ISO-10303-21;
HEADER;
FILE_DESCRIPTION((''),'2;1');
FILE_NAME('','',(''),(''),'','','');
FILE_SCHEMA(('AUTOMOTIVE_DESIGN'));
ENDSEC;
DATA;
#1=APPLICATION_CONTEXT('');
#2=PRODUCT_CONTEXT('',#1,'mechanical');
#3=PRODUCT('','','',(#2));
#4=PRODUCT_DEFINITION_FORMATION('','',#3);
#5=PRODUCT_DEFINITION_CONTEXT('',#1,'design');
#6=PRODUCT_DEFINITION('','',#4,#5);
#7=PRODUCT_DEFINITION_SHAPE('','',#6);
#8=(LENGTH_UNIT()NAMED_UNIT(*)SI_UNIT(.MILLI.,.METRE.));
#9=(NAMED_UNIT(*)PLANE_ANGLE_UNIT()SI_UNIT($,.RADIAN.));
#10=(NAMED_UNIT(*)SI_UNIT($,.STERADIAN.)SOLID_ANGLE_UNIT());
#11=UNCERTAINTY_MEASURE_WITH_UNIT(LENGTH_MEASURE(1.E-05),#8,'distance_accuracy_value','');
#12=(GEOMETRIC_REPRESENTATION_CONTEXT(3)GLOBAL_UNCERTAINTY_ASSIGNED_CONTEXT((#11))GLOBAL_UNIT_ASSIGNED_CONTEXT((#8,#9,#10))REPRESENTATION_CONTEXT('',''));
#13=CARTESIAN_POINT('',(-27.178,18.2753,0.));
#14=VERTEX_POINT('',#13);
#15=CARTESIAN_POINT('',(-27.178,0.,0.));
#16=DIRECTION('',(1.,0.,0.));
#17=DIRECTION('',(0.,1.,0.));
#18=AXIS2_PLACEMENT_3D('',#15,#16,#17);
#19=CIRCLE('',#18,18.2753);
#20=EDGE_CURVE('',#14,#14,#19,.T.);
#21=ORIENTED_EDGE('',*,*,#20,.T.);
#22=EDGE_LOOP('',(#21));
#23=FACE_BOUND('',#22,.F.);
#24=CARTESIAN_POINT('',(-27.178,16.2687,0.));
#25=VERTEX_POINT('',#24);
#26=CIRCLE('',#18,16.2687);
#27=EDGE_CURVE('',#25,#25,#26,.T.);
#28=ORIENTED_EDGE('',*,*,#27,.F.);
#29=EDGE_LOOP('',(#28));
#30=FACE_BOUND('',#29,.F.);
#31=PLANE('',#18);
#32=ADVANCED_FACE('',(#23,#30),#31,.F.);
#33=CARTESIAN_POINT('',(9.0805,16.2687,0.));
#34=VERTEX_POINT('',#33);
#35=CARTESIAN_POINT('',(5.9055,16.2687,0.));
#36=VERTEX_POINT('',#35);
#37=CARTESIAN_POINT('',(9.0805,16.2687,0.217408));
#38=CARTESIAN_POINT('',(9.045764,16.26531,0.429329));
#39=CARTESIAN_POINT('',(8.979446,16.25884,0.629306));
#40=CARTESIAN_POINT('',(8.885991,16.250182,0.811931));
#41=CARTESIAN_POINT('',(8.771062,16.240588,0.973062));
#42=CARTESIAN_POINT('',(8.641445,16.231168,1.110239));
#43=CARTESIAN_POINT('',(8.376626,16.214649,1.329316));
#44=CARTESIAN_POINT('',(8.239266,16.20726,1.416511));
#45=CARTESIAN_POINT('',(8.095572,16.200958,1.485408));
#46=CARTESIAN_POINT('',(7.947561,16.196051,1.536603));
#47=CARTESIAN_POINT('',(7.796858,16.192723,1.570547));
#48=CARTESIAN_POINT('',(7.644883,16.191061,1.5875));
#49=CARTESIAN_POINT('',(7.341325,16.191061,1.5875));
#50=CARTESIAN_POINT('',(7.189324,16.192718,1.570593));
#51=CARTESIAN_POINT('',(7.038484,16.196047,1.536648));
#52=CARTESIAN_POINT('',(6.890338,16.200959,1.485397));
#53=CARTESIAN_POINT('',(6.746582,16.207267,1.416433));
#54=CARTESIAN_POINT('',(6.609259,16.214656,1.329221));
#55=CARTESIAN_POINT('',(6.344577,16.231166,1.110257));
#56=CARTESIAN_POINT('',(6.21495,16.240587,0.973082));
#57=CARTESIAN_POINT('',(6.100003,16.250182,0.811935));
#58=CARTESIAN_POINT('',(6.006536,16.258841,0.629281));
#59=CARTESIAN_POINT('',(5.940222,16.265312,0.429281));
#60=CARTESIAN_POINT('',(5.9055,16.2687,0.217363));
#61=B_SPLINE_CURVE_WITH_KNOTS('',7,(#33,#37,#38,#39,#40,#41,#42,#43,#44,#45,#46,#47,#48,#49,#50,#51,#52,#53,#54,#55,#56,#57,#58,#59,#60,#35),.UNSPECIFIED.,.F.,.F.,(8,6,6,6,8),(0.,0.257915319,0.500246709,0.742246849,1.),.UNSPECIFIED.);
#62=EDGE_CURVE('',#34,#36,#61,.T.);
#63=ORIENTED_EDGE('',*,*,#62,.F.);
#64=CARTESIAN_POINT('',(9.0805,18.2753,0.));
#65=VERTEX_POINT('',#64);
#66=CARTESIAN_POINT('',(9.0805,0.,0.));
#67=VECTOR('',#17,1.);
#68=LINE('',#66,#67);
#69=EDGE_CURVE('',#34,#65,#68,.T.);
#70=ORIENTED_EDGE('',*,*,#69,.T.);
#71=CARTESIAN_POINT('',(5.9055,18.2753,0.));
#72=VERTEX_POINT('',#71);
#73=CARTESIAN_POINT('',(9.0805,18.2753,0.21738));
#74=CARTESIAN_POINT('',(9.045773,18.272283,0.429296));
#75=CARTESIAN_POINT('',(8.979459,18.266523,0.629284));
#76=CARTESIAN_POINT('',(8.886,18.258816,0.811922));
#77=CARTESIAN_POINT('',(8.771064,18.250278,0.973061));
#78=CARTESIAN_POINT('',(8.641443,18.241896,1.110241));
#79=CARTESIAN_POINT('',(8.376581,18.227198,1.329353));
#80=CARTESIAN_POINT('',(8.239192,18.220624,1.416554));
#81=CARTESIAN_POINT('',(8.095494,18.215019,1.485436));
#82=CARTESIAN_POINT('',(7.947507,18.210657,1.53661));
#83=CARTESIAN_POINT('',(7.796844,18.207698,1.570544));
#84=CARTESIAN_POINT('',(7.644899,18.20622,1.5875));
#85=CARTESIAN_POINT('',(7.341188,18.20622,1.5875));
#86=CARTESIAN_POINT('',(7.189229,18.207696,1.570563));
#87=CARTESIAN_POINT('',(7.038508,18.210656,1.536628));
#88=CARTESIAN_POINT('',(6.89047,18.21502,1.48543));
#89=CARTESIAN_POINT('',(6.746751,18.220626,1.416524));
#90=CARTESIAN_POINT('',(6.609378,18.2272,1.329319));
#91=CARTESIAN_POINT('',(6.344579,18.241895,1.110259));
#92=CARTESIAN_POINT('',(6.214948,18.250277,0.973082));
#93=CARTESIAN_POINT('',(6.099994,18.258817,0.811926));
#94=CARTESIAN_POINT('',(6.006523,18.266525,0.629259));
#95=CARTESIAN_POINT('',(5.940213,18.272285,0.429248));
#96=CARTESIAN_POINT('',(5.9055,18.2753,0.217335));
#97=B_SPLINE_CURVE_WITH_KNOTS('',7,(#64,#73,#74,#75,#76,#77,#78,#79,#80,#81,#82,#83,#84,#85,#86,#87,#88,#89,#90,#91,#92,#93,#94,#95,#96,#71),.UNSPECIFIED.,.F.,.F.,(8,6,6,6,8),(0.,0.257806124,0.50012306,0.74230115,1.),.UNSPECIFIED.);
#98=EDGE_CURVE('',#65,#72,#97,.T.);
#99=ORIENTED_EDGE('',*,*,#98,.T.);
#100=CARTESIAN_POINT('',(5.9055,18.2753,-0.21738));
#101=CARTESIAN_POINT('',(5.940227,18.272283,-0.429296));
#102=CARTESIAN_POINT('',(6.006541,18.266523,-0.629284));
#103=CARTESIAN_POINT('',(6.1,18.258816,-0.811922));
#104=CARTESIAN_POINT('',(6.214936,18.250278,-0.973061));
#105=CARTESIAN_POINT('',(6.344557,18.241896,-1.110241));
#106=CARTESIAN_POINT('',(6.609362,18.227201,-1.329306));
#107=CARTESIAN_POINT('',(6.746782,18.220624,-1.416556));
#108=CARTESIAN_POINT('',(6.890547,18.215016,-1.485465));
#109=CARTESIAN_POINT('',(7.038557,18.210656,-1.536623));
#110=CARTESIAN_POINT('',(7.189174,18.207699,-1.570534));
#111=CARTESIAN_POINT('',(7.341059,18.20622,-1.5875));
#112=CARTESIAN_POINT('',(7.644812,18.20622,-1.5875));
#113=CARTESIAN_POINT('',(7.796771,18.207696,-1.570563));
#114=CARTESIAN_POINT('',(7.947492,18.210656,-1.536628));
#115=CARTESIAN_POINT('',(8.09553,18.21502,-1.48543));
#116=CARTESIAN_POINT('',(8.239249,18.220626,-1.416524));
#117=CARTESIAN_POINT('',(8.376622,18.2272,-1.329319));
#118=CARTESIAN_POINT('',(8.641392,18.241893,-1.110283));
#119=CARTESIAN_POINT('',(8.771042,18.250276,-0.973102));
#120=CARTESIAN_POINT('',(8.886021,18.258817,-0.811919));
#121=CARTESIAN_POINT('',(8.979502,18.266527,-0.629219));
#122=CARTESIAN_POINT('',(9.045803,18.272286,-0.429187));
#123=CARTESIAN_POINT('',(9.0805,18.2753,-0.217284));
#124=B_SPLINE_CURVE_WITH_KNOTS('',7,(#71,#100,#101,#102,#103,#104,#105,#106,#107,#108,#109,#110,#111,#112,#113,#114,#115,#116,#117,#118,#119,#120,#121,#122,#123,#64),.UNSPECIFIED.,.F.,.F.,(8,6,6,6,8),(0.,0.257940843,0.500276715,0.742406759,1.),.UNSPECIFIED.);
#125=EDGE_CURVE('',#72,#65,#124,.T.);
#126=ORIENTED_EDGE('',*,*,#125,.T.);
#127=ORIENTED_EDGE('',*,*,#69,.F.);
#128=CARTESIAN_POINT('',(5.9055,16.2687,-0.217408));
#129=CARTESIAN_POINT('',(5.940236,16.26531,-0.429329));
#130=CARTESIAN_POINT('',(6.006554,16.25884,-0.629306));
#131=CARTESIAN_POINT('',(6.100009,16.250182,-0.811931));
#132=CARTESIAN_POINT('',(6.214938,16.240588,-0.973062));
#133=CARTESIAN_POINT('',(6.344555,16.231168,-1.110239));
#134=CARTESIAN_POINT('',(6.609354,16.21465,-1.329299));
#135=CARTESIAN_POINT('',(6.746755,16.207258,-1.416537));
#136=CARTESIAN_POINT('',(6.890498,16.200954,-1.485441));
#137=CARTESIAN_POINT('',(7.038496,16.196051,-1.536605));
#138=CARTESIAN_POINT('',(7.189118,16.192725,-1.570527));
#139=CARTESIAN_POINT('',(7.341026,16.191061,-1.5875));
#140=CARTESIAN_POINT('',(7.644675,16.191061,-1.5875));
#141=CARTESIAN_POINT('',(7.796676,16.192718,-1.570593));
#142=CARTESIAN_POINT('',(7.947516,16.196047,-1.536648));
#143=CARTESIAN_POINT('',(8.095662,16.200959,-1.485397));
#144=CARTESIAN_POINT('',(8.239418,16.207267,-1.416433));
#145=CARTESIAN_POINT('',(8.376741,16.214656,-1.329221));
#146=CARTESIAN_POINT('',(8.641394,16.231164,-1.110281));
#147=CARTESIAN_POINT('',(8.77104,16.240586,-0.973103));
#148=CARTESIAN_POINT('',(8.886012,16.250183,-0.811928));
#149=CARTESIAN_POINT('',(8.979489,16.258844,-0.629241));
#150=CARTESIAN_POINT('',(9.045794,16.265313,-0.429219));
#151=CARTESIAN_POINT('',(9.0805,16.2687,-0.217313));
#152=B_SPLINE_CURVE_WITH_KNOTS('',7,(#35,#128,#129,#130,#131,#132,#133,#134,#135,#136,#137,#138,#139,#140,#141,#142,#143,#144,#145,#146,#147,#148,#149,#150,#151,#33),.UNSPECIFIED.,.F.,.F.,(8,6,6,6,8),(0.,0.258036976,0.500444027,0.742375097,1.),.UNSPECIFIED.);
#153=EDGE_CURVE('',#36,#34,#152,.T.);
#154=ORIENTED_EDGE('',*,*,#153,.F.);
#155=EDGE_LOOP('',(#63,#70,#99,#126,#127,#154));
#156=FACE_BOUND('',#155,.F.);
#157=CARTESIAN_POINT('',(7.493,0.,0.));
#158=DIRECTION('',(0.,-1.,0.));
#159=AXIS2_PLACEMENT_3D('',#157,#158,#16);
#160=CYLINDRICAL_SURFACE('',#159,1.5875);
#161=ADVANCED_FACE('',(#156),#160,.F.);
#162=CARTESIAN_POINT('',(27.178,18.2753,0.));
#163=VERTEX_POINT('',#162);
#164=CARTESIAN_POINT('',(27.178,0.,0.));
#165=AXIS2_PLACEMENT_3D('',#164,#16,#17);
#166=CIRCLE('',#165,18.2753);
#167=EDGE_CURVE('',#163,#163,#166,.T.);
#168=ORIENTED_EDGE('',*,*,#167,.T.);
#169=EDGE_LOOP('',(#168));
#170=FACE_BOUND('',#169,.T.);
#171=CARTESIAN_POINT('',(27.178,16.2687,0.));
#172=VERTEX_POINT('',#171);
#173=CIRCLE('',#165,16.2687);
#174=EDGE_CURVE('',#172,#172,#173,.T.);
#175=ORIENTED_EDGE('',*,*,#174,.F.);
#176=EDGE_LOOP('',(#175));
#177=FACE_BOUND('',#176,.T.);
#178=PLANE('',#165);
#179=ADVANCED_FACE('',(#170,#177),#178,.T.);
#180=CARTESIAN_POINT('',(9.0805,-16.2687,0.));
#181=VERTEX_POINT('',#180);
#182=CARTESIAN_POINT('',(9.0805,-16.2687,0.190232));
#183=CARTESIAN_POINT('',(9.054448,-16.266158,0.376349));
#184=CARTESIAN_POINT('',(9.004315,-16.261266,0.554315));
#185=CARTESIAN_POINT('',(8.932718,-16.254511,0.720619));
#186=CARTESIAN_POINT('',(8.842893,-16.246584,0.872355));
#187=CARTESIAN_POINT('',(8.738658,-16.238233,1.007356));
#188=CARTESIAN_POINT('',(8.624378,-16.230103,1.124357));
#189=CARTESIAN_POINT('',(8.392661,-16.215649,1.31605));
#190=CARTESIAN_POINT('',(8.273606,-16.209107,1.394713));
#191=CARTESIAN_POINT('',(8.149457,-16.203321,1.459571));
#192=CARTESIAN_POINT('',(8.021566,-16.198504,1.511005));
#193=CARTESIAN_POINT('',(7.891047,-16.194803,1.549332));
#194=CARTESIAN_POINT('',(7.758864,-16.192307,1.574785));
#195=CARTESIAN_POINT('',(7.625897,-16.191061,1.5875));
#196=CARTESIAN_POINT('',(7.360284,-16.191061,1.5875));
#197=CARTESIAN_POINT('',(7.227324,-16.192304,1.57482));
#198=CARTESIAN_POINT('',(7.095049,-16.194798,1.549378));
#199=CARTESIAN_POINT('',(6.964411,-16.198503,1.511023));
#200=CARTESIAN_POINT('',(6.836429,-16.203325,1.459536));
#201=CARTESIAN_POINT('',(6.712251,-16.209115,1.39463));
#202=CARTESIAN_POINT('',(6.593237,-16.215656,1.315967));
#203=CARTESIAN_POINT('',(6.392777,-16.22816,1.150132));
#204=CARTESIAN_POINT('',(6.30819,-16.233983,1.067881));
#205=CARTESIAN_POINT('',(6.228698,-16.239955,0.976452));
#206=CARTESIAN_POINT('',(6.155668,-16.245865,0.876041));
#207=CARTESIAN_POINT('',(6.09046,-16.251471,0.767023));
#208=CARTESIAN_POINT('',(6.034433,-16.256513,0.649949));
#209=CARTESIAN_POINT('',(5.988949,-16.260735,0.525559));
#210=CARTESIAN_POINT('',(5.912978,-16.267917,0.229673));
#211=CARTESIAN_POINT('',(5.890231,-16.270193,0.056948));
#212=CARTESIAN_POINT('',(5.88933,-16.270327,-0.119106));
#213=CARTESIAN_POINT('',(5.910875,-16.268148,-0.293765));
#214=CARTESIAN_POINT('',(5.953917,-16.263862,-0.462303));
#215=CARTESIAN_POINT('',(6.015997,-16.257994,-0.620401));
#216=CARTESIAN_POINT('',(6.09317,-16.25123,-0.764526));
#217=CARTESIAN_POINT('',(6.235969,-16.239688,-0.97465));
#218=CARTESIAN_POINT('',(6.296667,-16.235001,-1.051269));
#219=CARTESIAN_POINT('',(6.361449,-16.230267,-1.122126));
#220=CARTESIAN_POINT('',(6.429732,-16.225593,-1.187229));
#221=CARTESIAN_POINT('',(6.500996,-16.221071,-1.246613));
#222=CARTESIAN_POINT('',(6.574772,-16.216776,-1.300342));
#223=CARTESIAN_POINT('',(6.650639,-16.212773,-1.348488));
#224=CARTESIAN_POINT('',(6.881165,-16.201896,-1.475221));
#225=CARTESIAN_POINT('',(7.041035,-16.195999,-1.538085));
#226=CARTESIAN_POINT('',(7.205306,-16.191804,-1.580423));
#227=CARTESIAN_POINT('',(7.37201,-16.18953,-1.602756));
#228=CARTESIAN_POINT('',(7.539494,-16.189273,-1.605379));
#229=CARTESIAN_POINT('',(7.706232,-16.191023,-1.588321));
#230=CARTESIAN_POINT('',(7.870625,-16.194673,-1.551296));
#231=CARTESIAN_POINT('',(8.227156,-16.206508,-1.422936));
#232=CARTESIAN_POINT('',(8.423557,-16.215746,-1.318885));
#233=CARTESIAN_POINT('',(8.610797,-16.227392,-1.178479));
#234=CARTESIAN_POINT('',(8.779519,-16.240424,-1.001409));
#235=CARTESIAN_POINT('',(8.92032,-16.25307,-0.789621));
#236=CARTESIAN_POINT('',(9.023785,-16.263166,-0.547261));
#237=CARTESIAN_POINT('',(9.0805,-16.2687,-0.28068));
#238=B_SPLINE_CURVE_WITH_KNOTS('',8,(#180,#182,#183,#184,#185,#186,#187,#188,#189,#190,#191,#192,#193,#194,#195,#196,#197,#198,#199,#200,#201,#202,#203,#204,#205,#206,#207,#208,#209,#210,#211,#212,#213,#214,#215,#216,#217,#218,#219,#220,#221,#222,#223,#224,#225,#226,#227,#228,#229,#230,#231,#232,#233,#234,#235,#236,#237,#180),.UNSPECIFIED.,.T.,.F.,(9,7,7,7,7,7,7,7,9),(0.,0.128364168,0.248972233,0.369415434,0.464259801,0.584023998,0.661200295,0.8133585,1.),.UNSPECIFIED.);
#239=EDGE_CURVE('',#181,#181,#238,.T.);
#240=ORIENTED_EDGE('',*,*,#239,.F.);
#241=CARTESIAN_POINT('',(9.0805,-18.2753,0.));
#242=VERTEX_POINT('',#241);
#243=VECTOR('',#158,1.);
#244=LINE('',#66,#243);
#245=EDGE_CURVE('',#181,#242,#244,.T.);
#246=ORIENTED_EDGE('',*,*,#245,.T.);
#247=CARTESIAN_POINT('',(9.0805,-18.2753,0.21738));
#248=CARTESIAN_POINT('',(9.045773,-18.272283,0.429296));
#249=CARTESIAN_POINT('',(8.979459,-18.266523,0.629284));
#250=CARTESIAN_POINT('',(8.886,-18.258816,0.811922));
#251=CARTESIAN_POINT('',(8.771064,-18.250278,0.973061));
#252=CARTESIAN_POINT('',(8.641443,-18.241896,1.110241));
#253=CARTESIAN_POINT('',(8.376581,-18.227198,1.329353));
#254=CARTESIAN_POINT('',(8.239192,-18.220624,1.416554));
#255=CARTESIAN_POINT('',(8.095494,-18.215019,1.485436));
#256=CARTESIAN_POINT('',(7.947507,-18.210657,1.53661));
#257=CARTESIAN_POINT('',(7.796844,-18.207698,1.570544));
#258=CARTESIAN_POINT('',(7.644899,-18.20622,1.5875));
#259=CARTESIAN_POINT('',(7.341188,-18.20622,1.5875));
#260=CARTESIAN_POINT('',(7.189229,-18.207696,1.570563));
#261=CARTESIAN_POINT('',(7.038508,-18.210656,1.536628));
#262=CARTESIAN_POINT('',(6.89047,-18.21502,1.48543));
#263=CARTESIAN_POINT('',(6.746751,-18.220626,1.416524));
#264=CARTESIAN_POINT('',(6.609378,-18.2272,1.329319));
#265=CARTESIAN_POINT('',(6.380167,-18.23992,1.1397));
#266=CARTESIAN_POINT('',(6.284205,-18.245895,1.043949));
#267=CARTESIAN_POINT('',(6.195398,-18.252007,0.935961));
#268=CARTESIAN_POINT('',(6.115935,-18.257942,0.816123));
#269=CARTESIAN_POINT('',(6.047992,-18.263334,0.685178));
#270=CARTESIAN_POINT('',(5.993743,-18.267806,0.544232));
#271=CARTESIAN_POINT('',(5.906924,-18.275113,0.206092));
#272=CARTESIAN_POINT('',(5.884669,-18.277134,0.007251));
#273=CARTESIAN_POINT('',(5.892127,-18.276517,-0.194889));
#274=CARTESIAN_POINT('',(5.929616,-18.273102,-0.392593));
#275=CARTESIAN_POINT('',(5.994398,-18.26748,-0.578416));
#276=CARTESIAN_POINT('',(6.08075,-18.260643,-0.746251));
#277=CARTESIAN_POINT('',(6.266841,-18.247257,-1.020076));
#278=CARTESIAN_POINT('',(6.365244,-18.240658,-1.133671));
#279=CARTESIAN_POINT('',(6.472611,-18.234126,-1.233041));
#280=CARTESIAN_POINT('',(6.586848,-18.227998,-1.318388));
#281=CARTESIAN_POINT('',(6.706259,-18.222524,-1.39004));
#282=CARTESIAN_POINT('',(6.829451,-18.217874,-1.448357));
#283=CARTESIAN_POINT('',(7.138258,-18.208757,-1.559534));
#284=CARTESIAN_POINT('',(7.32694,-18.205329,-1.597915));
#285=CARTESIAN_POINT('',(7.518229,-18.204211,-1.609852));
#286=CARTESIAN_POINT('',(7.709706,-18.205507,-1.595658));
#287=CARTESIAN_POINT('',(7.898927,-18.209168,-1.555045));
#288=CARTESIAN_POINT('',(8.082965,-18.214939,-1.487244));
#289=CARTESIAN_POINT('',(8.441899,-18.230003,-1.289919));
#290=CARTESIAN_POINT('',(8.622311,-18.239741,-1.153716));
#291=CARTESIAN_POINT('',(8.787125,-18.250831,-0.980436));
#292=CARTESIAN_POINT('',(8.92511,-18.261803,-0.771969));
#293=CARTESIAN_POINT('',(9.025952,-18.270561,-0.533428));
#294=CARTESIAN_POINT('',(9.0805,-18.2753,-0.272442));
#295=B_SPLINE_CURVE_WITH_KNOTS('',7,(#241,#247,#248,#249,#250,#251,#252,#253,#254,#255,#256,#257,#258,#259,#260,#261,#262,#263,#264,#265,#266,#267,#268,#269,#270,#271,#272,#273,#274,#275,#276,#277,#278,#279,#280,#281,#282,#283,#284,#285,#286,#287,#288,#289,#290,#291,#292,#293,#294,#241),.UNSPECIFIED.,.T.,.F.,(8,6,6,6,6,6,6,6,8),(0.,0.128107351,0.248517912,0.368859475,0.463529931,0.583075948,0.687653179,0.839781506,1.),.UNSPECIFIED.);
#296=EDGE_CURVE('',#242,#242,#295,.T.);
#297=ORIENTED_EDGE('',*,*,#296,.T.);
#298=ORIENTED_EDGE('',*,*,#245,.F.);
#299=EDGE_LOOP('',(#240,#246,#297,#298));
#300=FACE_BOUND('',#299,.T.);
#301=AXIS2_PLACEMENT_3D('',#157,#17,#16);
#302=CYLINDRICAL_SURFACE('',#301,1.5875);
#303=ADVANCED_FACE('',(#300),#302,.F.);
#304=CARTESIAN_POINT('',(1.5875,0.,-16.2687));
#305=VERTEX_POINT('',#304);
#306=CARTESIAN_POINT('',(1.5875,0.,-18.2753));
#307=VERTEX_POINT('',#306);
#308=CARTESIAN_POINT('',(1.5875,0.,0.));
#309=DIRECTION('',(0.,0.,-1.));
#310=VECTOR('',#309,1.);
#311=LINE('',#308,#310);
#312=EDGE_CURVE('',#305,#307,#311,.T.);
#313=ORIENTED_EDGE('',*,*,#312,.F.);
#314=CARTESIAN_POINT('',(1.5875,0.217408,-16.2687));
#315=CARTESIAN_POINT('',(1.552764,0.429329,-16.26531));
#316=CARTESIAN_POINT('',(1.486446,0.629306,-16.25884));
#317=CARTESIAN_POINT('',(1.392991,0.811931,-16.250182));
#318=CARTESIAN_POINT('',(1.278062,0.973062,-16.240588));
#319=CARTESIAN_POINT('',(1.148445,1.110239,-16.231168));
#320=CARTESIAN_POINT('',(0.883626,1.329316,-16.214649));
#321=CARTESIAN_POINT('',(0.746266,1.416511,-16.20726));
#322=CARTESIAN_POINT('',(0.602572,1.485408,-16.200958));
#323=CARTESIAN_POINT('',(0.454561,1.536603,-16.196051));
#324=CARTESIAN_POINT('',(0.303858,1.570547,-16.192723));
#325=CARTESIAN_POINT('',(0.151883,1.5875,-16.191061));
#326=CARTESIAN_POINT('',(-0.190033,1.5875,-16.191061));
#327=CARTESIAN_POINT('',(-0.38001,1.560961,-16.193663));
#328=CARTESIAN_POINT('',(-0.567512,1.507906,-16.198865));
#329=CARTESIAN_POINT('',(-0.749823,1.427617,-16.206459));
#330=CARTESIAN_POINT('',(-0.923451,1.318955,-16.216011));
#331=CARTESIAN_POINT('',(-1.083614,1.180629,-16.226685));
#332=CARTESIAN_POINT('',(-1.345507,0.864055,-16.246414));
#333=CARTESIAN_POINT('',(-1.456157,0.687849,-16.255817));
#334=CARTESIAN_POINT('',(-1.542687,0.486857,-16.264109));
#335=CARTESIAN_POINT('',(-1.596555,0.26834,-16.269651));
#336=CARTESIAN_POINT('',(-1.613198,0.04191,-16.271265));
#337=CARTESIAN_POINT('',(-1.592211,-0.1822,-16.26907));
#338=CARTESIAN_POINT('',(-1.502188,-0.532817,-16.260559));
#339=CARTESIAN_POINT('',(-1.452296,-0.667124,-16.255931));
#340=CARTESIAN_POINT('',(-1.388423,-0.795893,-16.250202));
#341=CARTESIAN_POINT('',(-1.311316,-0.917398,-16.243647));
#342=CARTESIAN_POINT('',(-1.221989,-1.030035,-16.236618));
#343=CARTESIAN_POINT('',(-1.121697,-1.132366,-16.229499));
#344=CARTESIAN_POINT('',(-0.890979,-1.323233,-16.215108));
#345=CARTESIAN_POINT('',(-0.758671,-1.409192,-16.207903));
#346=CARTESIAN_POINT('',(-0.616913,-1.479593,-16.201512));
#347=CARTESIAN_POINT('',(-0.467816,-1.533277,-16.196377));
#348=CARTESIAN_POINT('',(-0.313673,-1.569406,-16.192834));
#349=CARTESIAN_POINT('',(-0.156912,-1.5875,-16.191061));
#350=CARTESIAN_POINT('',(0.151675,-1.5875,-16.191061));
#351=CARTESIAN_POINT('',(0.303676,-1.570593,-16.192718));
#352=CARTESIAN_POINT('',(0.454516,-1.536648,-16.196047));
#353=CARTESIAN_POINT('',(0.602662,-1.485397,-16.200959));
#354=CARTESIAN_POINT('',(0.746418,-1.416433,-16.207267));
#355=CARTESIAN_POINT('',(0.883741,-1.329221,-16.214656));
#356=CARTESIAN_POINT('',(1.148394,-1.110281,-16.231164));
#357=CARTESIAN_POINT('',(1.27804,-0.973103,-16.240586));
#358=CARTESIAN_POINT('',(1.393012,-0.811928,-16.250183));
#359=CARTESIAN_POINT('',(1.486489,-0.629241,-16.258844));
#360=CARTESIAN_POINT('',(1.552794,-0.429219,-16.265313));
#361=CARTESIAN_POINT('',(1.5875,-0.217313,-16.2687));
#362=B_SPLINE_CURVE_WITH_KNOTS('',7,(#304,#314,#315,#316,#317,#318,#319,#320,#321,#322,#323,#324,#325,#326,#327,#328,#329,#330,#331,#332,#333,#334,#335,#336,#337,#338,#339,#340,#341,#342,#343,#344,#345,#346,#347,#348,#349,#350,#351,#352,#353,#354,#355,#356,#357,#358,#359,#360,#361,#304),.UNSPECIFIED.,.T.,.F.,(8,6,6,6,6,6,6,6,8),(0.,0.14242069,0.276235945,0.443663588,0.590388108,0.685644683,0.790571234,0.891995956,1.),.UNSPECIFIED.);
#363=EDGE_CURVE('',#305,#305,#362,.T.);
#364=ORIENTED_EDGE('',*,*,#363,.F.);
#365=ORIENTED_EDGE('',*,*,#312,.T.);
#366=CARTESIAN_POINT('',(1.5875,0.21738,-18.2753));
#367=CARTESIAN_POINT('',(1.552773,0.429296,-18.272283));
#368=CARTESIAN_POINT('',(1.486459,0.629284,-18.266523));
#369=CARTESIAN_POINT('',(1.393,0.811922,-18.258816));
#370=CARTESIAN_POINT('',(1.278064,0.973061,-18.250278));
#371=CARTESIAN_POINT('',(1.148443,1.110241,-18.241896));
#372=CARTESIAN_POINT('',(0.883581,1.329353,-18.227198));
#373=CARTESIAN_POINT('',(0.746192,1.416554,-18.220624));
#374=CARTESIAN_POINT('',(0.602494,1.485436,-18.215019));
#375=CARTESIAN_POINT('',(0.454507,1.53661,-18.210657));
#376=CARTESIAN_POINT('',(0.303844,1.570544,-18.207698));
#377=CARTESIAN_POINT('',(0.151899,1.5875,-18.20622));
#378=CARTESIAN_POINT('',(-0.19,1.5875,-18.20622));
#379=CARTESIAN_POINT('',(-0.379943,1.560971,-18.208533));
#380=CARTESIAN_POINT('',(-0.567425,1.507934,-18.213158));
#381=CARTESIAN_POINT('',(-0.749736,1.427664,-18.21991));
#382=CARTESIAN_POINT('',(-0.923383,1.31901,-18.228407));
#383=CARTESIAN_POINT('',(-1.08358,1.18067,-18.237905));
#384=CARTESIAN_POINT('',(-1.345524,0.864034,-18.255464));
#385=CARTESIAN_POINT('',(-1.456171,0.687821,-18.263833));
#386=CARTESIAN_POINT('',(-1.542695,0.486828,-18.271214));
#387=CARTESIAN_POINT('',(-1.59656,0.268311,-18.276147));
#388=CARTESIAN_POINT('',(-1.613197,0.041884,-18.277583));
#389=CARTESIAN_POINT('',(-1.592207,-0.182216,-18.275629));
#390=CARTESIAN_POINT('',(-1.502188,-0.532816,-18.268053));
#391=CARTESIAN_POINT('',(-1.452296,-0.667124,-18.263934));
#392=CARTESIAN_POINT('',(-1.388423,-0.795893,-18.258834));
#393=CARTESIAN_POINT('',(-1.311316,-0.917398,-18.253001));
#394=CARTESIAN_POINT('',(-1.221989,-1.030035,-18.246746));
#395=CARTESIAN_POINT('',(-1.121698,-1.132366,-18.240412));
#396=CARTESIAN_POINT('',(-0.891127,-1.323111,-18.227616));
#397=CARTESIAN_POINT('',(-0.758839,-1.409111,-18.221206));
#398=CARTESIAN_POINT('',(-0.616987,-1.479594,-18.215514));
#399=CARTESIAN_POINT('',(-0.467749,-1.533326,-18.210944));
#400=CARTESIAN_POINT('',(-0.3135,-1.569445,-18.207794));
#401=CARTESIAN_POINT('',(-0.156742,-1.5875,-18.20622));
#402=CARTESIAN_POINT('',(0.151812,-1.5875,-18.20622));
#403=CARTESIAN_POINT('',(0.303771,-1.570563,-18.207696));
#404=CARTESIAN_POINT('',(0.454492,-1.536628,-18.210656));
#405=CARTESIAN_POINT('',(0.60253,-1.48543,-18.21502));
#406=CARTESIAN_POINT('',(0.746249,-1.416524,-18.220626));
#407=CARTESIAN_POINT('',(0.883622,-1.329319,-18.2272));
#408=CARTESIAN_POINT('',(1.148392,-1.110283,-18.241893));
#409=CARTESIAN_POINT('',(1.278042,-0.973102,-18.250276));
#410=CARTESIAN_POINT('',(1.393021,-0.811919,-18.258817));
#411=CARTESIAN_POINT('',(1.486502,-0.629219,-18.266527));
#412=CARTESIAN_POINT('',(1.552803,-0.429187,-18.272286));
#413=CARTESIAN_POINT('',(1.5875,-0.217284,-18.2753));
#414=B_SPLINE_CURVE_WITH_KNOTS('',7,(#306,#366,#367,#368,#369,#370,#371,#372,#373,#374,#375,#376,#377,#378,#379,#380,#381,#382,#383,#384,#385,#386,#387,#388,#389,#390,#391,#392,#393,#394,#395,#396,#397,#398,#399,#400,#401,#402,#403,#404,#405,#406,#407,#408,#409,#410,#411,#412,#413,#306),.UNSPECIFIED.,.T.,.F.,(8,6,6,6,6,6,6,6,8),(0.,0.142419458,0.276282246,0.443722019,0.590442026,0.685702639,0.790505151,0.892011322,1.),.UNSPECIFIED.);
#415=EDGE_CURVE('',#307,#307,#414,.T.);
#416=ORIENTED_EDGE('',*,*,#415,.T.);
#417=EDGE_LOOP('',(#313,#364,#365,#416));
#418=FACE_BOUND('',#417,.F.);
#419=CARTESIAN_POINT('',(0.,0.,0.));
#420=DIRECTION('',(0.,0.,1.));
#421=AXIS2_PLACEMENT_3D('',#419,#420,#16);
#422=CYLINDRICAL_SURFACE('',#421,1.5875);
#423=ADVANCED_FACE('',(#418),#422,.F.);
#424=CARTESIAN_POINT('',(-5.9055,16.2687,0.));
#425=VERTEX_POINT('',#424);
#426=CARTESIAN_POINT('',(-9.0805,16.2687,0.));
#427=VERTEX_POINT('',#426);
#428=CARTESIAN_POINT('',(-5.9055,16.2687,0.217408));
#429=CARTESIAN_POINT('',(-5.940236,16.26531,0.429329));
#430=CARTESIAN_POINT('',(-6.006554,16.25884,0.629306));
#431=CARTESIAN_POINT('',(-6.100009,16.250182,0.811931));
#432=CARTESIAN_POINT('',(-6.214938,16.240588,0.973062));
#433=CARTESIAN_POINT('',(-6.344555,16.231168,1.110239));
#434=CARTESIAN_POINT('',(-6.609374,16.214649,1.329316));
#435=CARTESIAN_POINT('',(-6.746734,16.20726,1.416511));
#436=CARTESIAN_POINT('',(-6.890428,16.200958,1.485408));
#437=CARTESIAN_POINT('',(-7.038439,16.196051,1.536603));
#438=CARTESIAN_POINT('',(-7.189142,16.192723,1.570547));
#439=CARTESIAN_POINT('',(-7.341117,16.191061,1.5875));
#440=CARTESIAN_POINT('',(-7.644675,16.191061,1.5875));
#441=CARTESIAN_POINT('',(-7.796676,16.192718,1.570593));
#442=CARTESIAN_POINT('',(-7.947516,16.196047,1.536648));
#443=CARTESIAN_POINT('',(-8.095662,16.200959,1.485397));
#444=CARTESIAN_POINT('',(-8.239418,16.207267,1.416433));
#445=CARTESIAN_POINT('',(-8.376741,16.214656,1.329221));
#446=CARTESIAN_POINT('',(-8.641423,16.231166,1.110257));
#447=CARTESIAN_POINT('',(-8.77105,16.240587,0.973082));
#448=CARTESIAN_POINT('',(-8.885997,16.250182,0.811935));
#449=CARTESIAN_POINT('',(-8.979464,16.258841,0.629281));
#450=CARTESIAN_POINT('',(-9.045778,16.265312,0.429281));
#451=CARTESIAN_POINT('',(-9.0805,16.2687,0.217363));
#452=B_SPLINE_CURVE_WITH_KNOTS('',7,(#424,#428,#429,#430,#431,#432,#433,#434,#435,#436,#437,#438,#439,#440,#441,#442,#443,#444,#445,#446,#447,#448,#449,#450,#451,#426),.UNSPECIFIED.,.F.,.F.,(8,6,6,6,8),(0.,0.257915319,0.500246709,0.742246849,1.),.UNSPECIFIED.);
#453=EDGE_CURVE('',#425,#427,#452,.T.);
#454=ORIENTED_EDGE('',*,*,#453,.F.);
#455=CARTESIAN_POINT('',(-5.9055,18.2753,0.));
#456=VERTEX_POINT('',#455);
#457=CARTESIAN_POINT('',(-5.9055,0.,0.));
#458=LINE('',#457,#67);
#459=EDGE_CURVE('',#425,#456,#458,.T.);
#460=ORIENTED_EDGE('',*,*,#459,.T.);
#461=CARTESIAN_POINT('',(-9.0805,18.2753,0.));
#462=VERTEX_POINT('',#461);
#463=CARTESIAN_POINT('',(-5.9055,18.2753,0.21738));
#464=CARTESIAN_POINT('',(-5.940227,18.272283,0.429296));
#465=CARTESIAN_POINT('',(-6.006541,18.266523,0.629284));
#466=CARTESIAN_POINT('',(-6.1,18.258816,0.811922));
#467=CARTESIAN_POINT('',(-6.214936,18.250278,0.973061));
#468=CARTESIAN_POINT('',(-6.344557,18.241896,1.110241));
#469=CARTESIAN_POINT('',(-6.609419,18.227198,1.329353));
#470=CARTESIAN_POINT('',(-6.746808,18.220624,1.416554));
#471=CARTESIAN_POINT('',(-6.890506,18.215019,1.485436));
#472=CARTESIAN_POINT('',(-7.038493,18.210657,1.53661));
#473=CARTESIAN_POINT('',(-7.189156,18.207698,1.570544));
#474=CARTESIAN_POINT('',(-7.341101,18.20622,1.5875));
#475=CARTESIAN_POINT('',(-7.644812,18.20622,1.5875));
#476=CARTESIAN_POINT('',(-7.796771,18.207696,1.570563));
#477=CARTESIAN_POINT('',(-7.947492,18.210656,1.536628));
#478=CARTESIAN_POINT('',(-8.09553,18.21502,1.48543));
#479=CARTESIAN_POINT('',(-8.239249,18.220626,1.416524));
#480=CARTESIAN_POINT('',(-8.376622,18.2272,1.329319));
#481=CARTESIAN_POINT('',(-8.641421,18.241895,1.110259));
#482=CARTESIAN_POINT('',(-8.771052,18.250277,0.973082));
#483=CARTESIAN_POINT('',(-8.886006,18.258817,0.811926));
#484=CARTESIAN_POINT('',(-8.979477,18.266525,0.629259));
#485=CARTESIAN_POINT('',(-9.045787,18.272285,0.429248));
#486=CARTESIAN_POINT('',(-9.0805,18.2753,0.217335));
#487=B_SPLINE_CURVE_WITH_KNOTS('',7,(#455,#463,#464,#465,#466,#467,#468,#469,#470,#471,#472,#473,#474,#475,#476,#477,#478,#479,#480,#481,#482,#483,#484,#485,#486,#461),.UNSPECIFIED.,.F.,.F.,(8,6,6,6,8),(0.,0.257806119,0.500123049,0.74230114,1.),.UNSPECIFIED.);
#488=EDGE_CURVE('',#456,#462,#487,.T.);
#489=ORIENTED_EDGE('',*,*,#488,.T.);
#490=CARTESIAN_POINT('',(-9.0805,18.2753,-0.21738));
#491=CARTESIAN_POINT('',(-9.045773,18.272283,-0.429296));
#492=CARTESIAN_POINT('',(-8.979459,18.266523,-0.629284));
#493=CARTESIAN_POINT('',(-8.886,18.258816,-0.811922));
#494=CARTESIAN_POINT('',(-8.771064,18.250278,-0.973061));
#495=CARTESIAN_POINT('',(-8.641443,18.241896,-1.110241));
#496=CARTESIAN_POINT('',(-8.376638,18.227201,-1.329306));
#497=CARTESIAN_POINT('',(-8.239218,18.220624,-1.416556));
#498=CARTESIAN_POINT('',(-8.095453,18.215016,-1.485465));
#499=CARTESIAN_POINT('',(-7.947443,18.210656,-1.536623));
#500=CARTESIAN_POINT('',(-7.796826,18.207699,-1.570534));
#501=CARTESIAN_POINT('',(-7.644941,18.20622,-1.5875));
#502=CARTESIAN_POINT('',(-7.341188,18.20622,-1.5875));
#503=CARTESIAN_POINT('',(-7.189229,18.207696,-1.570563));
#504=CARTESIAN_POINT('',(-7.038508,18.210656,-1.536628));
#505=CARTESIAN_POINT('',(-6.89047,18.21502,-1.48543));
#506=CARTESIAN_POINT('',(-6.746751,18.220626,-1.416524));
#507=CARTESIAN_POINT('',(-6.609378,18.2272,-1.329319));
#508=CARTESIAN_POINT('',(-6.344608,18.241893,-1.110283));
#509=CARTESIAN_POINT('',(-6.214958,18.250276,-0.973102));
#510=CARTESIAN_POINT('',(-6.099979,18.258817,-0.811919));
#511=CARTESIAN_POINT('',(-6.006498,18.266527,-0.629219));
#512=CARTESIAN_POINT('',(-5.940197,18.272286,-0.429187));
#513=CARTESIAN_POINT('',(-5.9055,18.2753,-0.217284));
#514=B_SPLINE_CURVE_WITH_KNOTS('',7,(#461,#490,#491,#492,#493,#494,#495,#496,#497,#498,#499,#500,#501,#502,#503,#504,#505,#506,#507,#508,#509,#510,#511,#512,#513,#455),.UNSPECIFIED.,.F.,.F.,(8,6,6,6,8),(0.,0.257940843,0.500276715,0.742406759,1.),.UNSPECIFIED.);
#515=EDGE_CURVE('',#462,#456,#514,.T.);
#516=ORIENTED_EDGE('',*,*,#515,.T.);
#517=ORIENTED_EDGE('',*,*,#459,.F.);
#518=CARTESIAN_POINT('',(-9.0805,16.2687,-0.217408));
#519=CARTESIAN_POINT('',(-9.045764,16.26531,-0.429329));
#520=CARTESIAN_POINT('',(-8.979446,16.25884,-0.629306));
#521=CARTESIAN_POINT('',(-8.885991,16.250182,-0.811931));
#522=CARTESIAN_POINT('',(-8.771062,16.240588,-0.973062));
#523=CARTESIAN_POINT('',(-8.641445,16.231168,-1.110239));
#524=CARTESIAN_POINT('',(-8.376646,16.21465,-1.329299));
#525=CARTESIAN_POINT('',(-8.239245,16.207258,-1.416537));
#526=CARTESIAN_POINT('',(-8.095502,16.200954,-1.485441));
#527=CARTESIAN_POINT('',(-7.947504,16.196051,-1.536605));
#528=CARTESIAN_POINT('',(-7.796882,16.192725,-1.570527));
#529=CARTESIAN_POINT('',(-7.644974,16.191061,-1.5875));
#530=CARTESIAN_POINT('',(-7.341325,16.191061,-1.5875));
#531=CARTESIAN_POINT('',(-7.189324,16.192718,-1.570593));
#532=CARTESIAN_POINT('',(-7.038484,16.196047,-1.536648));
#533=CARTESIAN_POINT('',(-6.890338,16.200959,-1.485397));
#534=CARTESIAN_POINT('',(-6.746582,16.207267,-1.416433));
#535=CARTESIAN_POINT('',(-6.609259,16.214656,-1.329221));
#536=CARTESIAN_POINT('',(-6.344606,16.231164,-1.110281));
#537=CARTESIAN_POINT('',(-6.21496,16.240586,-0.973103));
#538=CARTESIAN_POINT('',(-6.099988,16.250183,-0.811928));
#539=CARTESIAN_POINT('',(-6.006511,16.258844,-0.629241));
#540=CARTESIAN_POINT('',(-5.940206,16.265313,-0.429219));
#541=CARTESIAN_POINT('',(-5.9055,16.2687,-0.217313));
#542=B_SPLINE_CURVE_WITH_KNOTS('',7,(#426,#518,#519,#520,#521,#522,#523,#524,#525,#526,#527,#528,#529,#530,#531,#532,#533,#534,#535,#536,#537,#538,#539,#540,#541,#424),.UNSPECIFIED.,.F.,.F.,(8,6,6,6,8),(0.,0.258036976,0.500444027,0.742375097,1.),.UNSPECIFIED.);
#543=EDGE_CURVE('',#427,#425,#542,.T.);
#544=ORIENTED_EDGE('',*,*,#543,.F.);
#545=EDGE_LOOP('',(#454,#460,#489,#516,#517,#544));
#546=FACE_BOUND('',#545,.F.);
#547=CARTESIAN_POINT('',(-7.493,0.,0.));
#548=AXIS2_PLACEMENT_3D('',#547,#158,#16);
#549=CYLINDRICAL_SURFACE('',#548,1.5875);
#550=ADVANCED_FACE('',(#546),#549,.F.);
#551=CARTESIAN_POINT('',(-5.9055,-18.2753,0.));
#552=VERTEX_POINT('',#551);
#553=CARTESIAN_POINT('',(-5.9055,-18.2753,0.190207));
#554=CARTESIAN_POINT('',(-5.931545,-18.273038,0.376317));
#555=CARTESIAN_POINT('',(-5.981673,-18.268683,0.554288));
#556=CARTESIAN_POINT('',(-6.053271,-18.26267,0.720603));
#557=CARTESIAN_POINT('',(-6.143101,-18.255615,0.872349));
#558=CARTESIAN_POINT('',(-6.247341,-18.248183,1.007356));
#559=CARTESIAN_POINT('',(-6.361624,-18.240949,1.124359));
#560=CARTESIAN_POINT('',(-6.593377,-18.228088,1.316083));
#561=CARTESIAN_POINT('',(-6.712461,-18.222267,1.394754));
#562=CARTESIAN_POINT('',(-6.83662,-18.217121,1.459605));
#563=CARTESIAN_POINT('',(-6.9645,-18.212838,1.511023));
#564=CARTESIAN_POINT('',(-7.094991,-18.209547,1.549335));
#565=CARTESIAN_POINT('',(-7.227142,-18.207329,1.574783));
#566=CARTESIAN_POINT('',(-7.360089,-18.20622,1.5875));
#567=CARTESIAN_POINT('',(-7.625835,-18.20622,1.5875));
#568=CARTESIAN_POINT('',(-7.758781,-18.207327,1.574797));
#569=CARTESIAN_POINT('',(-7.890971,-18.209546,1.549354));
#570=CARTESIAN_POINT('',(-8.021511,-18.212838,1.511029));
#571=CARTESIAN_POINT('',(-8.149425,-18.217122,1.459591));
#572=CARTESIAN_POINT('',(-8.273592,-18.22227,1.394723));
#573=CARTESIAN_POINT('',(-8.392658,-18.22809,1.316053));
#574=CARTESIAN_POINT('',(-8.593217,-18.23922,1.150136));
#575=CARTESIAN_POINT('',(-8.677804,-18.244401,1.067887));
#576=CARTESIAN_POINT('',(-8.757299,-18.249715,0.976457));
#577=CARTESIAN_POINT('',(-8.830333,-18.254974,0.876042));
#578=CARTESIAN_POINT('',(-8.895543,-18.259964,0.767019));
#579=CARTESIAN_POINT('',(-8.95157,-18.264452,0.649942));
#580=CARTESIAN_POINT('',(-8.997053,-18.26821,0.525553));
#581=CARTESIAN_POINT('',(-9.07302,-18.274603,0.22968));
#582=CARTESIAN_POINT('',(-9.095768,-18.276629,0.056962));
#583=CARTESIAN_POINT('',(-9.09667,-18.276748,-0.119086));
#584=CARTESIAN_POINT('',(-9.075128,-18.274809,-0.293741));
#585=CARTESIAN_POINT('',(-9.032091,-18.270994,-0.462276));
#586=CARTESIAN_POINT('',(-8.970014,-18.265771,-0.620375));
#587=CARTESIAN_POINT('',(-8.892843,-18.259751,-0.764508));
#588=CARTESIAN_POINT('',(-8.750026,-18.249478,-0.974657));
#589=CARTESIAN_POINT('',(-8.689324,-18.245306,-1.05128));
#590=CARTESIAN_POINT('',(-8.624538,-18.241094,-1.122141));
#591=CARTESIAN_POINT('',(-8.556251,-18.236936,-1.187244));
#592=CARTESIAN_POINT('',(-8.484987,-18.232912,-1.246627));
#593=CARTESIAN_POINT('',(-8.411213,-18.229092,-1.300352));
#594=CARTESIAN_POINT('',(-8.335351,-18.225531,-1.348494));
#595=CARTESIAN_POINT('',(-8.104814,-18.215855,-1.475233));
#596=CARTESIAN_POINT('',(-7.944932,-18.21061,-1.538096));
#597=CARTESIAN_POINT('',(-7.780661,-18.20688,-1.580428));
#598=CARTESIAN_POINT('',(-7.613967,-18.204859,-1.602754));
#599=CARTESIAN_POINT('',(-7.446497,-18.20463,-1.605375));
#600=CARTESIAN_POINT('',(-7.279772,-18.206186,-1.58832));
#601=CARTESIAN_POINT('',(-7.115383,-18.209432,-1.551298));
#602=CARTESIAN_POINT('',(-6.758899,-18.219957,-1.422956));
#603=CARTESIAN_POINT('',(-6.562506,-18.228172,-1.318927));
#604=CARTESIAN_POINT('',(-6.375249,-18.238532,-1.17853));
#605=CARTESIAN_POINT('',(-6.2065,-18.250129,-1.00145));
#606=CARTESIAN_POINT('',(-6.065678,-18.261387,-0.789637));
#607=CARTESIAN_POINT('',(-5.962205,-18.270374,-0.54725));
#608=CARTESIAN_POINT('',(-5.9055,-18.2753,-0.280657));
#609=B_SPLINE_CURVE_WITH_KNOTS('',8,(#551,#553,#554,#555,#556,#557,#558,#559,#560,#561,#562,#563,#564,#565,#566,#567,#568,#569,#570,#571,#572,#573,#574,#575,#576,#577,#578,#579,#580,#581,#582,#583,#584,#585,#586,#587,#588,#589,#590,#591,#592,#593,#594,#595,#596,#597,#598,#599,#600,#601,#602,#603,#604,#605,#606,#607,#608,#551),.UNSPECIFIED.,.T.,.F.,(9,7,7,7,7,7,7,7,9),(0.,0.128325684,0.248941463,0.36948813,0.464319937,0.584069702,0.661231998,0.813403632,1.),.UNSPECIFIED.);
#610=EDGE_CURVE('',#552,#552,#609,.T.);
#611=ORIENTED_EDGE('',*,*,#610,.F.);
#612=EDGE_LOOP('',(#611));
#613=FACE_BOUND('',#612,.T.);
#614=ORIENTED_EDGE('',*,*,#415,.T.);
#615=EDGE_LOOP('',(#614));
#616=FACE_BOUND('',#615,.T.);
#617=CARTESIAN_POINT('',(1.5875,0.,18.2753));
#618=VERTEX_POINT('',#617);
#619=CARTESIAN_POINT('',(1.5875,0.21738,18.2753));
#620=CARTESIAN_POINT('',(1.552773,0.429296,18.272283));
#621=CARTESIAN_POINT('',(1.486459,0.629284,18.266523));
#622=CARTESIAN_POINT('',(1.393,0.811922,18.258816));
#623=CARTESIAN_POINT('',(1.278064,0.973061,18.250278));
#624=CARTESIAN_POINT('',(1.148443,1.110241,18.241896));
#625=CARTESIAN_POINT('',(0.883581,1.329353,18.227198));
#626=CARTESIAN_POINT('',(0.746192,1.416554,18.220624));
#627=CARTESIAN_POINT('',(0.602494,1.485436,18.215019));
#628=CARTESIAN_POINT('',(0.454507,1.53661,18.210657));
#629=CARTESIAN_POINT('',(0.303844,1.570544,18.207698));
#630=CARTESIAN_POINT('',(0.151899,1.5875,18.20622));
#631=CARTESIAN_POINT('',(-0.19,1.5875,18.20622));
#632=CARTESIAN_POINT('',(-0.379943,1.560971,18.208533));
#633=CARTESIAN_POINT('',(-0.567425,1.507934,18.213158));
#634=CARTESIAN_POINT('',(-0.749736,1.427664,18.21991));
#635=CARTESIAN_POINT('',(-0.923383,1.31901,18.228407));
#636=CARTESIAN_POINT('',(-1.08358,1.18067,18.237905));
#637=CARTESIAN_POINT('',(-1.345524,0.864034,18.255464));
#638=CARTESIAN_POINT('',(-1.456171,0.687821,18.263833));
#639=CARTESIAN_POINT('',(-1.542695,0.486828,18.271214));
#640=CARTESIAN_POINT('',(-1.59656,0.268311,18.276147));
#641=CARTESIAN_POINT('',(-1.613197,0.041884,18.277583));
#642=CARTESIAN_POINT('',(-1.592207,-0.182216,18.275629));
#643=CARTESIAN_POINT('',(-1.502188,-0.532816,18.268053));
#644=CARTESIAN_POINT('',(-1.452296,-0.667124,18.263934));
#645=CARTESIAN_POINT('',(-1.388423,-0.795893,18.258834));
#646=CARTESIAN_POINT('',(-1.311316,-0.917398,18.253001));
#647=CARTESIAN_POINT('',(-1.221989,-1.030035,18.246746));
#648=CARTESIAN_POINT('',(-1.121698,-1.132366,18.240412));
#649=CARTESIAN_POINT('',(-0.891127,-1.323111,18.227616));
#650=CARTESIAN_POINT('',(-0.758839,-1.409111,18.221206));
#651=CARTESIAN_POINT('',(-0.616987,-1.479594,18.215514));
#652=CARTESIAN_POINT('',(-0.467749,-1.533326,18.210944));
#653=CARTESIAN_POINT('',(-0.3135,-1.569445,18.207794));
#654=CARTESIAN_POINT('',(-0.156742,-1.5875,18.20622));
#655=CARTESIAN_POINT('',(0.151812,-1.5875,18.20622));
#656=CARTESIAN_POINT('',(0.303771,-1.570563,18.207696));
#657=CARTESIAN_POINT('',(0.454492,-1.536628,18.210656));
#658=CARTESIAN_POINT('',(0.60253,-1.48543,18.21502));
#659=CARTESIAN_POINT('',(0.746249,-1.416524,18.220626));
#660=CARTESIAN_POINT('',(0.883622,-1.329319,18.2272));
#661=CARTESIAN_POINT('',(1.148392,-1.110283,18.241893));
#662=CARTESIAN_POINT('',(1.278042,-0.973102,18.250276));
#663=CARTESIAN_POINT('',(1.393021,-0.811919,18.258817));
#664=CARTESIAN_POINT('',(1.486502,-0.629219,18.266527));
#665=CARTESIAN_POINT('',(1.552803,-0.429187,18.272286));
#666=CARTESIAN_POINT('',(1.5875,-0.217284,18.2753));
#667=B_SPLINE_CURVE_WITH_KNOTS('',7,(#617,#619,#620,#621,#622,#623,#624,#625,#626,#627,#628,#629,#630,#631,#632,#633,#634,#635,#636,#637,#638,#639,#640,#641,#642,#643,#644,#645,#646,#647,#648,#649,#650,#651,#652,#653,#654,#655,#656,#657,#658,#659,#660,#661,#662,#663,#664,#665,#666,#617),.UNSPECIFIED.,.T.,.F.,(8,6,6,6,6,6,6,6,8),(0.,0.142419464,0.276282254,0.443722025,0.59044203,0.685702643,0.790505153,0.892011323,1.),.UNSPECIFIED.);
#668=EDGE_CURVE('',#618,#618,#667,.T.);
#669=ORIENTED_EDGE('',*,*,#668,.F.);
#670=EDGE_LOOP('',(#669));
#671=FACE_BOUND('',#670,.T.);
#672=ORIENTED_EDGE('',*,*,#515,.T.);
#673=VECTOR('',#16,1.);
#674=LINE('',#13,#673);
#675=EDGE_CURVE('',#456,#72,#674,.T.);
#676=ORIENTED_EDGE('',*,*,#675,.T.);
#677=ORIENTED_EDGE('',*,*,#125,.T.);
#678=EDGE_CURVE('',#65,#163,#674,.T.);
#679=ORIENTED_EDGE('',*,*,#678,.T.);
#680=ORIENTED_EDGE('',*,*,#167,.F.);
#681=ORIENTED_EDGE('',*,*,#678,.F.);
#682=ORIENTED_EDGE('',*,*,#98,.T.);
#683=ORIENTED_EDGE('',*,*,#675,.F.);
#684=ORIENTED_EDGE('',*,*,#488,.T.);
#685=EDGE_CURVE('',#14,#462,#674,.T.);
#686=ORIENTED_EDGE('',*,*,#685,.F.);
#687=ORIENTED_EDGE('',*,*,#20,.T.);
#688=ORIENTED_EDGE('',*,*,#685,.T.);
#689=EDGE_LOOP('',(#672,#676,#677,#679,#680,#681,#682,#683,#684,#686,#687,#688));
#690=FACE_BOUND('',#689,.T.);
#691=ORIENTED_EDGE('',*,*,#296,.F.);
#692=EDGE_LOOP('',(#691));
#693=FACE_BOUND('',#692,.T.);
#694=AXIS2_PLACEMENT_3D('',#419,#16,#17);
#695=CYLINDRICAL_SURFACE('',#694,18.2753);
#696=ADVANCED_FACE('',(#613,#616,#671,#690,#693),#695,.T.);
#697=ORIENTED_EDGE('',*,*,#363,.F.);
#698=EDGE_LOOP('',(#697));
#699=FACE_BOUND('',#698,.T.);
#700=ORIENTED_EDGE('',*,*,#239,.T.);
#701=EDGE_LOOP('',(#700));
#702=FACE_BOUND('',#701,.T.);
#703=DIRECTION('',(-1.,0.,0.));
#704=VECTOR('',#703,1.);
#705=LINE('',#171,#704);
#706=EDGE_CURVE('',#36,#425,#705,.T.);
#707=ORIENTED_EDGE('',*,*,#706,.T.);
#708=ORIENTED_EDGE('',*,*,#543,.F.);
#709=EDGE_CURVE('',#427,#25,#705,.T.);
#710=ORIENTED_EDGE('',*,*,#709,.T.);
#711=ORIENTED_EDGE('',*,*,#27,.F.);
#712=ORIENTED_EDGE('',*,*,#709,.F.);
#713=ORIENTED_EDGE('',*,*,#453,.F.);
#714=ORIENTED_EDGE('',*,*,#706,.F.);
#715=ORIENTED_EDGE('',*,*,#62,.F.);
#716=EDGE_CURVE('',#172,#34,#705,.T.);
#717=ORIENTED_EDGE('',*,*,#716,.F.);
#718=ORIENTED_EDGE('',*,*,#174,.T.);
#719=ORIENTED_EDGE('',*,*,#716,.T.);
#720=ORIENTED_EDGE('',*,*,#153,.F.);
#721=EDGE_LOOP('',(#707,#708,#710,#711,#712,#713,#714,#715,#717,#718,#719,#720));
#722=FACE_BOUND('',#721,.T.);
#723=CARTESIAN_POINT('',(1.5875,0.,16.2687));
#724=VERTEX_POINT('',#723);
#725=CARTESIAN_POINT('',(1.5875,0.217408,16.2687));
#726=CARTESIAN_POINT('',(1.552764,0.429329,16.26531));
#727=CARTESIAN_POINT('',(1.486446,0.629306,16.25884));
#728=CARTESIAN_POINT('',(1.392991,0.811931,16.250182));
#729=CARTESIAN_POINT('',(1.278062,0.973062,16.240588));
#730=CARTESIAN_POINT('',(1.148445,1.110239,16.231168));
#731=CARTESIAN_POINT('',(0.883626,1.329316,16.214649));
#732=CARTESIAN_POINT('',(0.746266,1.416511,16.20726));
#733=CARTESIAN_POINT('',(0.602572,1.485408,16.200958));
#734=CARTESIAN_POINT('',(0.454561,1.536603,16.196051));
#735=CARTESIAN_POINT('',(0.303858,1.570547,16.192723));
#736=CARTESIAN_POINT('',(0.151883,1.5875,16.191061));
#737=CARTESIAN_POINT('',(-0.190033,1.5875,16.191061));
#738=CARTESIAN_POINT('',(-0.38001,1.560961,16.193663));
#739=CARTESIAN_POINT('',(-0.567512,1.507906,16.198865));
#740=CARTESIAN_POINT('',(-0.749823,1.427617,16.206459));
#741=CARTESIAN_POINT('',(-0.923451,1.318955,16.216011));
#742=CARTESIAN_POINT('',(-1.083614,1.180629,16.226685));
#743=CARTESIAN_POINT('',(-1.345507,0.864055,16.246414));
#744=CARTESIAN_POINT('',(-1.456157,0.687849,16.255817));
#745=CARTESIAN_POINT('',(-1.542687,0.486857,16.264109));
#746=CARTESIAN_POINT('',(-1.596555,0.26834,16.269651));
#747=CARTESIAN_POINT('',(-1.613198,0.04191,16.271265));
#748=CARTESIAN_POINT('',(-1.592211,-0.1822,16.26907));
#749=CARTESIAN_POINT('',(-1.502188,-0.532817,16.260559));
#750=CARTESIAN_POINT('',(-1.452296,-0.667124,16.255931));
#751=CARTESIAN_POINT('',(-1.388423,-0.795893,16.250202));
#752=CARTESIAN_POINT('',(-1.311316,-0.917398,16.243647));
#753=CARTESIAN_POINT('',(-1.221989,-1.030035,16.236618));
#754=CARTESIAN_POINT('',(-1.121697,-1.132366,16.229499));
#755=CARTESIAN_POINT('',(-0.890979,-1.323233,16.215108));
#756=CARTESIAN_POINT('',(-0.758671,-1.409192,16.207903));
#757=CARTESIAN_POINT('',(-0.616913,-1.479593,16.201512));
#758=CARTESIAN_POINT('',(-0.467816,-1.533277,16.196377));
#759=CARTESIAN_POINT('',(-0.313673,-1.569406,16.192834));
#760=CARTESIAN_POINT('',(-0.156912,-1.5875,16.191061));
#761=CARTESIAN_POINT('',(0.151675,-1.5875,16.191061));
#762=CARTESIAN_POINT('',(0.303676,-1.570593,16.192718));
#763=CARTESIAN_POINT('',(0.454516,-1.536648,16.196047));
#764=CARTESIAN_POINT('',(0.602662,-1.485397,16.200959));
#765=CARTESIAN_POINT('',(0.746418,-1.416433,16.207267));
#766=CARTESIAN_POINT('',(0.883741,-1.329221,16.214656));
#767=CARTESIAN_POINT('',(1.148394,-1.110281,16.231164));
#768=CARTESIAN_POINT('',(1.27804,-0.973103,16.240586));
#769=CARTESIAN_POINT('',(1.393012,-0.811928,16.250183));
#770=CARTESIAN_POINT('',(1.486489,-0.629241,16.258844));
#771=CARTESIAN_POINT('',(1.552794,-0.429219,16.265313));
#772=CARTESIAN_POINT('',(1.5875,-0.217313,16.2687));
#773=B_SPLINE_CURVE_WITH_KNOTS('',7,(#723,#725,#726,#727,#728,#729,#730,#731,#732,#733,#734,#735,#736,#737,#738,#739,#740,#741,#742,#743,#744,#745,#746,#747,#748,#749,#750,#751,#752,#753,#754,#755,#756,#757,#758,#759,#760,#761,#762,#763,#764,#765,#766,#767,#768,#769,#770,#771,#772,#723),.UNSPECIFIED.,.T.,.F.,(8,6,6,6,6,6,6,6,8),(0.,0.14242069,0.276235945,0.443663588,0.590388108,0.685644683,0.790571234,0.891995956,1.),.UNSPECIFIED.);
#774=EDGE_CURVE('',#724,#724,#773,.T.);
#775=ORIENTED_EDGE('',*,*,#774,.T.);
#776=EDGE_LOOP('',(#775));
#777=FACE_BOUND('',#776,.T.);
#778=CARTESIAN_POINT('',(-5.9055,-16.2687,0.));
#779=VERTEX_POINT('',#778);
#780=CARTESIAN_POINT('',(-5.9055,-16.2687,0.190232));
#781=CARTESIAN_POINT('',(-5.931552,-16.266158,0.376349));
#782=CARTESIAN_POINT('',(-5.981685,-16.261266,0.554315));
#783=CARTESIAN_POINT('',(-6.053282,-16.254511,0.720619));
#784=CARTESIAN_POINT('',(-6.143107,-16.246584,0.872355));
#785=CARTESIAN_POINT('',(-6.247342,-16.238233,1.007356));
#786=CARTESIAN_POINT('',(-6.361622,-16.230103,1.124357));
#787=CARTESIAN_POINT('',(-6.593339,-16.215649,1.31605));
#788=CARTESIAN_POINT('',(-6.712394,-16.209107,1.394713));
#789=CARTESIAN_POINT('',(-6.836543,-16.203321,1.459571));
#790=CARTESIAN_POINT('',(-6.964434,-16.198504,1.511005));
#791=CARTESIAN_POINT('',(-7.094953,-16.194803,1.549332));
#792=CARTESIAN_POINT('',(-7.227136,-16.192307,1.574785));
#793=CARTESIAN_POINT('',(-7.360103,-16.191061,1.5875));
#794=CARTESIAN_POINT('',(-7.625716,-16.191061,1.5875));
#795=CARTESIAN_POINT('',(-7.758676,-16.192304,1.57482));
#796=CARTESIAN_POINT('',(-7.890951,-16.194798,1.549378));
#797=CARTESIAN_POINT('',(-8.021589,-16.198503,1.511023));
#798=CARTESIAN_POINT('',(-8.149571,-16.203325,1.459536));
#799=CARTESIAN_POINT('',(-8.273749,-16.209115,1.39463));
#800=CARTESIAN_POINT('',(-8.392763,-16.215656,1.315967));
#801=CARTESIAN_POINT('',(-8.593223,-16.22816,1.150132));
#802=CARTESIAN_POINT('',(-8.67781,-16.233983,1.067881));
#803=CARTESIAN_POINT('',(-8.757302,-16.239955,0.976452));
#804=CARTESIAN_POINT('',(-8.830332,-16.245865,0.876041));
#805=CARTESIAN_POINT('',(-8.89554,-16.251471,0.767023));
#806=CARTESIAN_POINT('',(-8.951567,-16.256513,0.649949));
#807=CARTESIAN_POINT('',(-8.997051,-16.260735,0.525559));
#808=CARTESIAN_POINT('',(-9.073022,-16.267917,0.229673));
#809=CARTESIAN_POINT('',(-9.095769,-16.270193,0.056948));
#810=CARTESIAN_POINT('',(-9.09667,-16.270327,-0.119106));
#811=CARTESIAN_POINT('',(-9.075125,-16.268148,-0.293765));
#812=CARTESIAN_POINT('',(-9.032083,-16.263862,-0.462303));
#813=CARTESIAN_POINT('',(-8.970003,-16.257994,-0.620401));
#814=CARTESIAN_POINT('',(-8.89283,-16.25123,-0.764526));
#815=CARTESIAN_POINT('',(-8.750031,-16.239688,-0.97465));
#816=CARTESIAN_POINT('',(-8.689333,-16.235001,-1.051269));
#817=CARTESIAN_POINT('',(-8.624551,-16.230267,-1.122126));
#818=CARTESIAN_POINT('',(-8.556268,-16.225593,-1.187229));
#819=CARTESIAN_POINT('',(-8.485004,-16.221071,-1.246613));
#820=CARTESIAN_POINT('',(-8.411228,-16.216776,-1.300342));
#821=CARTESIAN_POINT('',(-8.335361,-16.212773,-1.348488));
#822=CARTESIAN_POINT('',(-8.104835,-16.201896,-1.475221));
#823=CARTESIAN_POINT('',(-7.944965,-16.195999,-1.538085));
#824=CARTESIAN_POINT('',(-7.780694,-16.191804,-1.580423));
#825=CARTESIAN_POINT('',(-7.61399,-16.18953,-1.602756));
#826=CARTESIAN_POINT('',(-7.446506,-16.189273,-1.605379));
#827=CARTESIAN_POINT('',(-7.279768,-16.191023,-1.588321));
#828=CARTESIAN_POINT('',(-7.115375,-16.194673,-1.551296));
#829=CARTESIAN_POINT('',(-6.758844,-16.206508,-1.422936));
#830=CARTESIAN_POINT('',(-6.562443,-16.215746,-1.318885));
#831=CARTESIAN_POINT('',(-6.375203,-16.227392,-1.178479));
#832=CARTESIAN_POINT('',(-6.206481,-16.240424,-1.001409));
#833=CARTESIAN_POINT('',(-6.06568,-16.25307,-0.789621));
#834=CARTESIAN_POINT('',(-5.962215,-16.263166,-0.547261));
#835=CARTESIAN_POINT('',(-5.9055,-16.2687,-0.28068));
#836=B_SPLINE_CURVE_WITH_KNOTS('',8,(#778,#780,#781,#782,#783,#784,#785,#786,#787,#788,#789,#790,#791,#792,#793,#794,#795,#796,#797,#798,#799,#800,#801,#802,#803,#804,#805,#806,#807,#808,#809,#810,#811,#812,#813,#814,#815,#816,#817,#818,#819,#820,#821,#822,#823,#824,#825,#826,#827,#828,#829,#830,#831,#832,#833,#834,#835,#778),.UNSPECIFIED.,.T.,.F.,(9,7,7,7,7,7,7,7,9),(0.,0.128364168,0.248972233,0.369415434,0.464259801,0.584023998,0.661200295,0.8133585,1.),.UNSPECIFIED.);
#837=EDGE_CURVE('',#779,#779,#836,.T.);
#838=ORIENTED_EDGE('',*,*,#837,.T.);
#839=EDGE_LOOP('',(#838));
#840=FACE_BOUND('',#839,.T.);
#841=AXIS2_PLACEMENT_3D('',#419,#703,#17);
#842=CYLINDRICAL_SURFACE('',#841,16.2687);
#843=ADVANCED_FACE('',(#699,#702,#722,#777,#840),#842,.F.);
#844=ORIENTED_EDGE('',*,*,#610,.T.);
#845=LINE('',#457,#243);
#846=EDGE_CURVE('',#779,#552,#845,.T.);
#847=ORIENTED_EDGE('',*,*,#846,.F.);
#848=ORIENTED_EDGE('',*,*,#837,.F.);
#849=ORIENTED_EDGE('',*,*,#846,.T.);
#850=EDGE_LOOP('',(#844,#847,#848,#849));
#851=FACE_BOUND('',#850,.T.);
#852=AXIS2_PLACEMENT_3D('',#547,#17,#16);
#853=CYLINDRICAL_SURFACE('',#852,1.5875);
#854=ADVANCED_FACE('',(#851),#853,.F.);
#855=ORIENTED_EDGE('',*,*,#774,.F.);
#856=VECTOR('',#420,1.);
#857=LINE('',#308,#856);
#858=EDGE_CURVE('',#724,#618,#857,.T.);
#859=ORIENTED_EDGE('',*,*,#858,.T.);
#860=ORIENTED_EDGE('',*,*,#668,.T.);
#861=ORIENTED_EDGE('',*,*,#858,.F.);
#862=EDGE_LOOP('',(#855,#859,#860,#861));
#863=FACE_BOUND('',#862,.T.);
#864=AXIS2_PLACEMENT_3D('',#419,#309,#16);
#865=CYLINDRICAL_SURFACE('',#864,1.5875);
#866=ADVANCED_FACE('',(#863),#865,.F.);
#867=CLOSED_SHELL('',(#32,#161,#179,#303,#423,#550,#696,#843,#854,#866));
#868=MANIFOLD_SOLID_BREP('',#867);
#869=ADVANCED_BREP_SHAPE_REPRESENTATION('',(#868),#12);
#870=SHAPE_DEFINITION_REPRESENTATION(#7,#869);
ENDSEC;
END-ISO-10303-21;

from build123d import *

# Parameters (mm, degrees)
F0_R          = 18.2753
F0_R_2        = 16.2687
F1_DEPTH      = 27.178
F2_R          = 1.5875
F3_DEPTH      = 18.2763
F3_DEPTH_BACK = 18.2763
F4_R          = 1.5875
F5_DEPTH      = 18.2763001
F5_DEPTH_BACK = 18.2763001


with BuildPart() as f1:
    # F0 (on Right) → F1 (new body, symmetric)
    with BuildSketch(Plane.YZ):
        Circle(F0_R)
        Circle(F0_R_2, mode=Mode.SUBTRACT)
    extrude(amount=F1_DEPTH, both=True)

    # F2 (on Top) → F3 (cut, two sides)
    with BuildSketch(Plane.XY) as f3_sk:
        Circle(F2_R)
    extrude(amount=-F3_DEPTH, mode=Mode.SUBTRACT)
    extrude(f3_sk.sketch, amount=F3_DEPTH_BACK, mode=Mode.SUBTRACT)

    # F4 (on Front) → F5 (cut, two sides)
    with BuildSketch(Plane.XZ) as f5_sk:
        with Locations((-7.493, 0)):
            Circle(F4_R)
        with Locations((7.493, 0)):
            Circle(F4_R)
    extrude(amount=-F5_DEPTH, mode=Mode.SUBTRACT)
    extrude(f5_sk.sketch, amount=F5_DEPTH_BACK, mode=Mode.SUBTRACT)


solid = f1.part
